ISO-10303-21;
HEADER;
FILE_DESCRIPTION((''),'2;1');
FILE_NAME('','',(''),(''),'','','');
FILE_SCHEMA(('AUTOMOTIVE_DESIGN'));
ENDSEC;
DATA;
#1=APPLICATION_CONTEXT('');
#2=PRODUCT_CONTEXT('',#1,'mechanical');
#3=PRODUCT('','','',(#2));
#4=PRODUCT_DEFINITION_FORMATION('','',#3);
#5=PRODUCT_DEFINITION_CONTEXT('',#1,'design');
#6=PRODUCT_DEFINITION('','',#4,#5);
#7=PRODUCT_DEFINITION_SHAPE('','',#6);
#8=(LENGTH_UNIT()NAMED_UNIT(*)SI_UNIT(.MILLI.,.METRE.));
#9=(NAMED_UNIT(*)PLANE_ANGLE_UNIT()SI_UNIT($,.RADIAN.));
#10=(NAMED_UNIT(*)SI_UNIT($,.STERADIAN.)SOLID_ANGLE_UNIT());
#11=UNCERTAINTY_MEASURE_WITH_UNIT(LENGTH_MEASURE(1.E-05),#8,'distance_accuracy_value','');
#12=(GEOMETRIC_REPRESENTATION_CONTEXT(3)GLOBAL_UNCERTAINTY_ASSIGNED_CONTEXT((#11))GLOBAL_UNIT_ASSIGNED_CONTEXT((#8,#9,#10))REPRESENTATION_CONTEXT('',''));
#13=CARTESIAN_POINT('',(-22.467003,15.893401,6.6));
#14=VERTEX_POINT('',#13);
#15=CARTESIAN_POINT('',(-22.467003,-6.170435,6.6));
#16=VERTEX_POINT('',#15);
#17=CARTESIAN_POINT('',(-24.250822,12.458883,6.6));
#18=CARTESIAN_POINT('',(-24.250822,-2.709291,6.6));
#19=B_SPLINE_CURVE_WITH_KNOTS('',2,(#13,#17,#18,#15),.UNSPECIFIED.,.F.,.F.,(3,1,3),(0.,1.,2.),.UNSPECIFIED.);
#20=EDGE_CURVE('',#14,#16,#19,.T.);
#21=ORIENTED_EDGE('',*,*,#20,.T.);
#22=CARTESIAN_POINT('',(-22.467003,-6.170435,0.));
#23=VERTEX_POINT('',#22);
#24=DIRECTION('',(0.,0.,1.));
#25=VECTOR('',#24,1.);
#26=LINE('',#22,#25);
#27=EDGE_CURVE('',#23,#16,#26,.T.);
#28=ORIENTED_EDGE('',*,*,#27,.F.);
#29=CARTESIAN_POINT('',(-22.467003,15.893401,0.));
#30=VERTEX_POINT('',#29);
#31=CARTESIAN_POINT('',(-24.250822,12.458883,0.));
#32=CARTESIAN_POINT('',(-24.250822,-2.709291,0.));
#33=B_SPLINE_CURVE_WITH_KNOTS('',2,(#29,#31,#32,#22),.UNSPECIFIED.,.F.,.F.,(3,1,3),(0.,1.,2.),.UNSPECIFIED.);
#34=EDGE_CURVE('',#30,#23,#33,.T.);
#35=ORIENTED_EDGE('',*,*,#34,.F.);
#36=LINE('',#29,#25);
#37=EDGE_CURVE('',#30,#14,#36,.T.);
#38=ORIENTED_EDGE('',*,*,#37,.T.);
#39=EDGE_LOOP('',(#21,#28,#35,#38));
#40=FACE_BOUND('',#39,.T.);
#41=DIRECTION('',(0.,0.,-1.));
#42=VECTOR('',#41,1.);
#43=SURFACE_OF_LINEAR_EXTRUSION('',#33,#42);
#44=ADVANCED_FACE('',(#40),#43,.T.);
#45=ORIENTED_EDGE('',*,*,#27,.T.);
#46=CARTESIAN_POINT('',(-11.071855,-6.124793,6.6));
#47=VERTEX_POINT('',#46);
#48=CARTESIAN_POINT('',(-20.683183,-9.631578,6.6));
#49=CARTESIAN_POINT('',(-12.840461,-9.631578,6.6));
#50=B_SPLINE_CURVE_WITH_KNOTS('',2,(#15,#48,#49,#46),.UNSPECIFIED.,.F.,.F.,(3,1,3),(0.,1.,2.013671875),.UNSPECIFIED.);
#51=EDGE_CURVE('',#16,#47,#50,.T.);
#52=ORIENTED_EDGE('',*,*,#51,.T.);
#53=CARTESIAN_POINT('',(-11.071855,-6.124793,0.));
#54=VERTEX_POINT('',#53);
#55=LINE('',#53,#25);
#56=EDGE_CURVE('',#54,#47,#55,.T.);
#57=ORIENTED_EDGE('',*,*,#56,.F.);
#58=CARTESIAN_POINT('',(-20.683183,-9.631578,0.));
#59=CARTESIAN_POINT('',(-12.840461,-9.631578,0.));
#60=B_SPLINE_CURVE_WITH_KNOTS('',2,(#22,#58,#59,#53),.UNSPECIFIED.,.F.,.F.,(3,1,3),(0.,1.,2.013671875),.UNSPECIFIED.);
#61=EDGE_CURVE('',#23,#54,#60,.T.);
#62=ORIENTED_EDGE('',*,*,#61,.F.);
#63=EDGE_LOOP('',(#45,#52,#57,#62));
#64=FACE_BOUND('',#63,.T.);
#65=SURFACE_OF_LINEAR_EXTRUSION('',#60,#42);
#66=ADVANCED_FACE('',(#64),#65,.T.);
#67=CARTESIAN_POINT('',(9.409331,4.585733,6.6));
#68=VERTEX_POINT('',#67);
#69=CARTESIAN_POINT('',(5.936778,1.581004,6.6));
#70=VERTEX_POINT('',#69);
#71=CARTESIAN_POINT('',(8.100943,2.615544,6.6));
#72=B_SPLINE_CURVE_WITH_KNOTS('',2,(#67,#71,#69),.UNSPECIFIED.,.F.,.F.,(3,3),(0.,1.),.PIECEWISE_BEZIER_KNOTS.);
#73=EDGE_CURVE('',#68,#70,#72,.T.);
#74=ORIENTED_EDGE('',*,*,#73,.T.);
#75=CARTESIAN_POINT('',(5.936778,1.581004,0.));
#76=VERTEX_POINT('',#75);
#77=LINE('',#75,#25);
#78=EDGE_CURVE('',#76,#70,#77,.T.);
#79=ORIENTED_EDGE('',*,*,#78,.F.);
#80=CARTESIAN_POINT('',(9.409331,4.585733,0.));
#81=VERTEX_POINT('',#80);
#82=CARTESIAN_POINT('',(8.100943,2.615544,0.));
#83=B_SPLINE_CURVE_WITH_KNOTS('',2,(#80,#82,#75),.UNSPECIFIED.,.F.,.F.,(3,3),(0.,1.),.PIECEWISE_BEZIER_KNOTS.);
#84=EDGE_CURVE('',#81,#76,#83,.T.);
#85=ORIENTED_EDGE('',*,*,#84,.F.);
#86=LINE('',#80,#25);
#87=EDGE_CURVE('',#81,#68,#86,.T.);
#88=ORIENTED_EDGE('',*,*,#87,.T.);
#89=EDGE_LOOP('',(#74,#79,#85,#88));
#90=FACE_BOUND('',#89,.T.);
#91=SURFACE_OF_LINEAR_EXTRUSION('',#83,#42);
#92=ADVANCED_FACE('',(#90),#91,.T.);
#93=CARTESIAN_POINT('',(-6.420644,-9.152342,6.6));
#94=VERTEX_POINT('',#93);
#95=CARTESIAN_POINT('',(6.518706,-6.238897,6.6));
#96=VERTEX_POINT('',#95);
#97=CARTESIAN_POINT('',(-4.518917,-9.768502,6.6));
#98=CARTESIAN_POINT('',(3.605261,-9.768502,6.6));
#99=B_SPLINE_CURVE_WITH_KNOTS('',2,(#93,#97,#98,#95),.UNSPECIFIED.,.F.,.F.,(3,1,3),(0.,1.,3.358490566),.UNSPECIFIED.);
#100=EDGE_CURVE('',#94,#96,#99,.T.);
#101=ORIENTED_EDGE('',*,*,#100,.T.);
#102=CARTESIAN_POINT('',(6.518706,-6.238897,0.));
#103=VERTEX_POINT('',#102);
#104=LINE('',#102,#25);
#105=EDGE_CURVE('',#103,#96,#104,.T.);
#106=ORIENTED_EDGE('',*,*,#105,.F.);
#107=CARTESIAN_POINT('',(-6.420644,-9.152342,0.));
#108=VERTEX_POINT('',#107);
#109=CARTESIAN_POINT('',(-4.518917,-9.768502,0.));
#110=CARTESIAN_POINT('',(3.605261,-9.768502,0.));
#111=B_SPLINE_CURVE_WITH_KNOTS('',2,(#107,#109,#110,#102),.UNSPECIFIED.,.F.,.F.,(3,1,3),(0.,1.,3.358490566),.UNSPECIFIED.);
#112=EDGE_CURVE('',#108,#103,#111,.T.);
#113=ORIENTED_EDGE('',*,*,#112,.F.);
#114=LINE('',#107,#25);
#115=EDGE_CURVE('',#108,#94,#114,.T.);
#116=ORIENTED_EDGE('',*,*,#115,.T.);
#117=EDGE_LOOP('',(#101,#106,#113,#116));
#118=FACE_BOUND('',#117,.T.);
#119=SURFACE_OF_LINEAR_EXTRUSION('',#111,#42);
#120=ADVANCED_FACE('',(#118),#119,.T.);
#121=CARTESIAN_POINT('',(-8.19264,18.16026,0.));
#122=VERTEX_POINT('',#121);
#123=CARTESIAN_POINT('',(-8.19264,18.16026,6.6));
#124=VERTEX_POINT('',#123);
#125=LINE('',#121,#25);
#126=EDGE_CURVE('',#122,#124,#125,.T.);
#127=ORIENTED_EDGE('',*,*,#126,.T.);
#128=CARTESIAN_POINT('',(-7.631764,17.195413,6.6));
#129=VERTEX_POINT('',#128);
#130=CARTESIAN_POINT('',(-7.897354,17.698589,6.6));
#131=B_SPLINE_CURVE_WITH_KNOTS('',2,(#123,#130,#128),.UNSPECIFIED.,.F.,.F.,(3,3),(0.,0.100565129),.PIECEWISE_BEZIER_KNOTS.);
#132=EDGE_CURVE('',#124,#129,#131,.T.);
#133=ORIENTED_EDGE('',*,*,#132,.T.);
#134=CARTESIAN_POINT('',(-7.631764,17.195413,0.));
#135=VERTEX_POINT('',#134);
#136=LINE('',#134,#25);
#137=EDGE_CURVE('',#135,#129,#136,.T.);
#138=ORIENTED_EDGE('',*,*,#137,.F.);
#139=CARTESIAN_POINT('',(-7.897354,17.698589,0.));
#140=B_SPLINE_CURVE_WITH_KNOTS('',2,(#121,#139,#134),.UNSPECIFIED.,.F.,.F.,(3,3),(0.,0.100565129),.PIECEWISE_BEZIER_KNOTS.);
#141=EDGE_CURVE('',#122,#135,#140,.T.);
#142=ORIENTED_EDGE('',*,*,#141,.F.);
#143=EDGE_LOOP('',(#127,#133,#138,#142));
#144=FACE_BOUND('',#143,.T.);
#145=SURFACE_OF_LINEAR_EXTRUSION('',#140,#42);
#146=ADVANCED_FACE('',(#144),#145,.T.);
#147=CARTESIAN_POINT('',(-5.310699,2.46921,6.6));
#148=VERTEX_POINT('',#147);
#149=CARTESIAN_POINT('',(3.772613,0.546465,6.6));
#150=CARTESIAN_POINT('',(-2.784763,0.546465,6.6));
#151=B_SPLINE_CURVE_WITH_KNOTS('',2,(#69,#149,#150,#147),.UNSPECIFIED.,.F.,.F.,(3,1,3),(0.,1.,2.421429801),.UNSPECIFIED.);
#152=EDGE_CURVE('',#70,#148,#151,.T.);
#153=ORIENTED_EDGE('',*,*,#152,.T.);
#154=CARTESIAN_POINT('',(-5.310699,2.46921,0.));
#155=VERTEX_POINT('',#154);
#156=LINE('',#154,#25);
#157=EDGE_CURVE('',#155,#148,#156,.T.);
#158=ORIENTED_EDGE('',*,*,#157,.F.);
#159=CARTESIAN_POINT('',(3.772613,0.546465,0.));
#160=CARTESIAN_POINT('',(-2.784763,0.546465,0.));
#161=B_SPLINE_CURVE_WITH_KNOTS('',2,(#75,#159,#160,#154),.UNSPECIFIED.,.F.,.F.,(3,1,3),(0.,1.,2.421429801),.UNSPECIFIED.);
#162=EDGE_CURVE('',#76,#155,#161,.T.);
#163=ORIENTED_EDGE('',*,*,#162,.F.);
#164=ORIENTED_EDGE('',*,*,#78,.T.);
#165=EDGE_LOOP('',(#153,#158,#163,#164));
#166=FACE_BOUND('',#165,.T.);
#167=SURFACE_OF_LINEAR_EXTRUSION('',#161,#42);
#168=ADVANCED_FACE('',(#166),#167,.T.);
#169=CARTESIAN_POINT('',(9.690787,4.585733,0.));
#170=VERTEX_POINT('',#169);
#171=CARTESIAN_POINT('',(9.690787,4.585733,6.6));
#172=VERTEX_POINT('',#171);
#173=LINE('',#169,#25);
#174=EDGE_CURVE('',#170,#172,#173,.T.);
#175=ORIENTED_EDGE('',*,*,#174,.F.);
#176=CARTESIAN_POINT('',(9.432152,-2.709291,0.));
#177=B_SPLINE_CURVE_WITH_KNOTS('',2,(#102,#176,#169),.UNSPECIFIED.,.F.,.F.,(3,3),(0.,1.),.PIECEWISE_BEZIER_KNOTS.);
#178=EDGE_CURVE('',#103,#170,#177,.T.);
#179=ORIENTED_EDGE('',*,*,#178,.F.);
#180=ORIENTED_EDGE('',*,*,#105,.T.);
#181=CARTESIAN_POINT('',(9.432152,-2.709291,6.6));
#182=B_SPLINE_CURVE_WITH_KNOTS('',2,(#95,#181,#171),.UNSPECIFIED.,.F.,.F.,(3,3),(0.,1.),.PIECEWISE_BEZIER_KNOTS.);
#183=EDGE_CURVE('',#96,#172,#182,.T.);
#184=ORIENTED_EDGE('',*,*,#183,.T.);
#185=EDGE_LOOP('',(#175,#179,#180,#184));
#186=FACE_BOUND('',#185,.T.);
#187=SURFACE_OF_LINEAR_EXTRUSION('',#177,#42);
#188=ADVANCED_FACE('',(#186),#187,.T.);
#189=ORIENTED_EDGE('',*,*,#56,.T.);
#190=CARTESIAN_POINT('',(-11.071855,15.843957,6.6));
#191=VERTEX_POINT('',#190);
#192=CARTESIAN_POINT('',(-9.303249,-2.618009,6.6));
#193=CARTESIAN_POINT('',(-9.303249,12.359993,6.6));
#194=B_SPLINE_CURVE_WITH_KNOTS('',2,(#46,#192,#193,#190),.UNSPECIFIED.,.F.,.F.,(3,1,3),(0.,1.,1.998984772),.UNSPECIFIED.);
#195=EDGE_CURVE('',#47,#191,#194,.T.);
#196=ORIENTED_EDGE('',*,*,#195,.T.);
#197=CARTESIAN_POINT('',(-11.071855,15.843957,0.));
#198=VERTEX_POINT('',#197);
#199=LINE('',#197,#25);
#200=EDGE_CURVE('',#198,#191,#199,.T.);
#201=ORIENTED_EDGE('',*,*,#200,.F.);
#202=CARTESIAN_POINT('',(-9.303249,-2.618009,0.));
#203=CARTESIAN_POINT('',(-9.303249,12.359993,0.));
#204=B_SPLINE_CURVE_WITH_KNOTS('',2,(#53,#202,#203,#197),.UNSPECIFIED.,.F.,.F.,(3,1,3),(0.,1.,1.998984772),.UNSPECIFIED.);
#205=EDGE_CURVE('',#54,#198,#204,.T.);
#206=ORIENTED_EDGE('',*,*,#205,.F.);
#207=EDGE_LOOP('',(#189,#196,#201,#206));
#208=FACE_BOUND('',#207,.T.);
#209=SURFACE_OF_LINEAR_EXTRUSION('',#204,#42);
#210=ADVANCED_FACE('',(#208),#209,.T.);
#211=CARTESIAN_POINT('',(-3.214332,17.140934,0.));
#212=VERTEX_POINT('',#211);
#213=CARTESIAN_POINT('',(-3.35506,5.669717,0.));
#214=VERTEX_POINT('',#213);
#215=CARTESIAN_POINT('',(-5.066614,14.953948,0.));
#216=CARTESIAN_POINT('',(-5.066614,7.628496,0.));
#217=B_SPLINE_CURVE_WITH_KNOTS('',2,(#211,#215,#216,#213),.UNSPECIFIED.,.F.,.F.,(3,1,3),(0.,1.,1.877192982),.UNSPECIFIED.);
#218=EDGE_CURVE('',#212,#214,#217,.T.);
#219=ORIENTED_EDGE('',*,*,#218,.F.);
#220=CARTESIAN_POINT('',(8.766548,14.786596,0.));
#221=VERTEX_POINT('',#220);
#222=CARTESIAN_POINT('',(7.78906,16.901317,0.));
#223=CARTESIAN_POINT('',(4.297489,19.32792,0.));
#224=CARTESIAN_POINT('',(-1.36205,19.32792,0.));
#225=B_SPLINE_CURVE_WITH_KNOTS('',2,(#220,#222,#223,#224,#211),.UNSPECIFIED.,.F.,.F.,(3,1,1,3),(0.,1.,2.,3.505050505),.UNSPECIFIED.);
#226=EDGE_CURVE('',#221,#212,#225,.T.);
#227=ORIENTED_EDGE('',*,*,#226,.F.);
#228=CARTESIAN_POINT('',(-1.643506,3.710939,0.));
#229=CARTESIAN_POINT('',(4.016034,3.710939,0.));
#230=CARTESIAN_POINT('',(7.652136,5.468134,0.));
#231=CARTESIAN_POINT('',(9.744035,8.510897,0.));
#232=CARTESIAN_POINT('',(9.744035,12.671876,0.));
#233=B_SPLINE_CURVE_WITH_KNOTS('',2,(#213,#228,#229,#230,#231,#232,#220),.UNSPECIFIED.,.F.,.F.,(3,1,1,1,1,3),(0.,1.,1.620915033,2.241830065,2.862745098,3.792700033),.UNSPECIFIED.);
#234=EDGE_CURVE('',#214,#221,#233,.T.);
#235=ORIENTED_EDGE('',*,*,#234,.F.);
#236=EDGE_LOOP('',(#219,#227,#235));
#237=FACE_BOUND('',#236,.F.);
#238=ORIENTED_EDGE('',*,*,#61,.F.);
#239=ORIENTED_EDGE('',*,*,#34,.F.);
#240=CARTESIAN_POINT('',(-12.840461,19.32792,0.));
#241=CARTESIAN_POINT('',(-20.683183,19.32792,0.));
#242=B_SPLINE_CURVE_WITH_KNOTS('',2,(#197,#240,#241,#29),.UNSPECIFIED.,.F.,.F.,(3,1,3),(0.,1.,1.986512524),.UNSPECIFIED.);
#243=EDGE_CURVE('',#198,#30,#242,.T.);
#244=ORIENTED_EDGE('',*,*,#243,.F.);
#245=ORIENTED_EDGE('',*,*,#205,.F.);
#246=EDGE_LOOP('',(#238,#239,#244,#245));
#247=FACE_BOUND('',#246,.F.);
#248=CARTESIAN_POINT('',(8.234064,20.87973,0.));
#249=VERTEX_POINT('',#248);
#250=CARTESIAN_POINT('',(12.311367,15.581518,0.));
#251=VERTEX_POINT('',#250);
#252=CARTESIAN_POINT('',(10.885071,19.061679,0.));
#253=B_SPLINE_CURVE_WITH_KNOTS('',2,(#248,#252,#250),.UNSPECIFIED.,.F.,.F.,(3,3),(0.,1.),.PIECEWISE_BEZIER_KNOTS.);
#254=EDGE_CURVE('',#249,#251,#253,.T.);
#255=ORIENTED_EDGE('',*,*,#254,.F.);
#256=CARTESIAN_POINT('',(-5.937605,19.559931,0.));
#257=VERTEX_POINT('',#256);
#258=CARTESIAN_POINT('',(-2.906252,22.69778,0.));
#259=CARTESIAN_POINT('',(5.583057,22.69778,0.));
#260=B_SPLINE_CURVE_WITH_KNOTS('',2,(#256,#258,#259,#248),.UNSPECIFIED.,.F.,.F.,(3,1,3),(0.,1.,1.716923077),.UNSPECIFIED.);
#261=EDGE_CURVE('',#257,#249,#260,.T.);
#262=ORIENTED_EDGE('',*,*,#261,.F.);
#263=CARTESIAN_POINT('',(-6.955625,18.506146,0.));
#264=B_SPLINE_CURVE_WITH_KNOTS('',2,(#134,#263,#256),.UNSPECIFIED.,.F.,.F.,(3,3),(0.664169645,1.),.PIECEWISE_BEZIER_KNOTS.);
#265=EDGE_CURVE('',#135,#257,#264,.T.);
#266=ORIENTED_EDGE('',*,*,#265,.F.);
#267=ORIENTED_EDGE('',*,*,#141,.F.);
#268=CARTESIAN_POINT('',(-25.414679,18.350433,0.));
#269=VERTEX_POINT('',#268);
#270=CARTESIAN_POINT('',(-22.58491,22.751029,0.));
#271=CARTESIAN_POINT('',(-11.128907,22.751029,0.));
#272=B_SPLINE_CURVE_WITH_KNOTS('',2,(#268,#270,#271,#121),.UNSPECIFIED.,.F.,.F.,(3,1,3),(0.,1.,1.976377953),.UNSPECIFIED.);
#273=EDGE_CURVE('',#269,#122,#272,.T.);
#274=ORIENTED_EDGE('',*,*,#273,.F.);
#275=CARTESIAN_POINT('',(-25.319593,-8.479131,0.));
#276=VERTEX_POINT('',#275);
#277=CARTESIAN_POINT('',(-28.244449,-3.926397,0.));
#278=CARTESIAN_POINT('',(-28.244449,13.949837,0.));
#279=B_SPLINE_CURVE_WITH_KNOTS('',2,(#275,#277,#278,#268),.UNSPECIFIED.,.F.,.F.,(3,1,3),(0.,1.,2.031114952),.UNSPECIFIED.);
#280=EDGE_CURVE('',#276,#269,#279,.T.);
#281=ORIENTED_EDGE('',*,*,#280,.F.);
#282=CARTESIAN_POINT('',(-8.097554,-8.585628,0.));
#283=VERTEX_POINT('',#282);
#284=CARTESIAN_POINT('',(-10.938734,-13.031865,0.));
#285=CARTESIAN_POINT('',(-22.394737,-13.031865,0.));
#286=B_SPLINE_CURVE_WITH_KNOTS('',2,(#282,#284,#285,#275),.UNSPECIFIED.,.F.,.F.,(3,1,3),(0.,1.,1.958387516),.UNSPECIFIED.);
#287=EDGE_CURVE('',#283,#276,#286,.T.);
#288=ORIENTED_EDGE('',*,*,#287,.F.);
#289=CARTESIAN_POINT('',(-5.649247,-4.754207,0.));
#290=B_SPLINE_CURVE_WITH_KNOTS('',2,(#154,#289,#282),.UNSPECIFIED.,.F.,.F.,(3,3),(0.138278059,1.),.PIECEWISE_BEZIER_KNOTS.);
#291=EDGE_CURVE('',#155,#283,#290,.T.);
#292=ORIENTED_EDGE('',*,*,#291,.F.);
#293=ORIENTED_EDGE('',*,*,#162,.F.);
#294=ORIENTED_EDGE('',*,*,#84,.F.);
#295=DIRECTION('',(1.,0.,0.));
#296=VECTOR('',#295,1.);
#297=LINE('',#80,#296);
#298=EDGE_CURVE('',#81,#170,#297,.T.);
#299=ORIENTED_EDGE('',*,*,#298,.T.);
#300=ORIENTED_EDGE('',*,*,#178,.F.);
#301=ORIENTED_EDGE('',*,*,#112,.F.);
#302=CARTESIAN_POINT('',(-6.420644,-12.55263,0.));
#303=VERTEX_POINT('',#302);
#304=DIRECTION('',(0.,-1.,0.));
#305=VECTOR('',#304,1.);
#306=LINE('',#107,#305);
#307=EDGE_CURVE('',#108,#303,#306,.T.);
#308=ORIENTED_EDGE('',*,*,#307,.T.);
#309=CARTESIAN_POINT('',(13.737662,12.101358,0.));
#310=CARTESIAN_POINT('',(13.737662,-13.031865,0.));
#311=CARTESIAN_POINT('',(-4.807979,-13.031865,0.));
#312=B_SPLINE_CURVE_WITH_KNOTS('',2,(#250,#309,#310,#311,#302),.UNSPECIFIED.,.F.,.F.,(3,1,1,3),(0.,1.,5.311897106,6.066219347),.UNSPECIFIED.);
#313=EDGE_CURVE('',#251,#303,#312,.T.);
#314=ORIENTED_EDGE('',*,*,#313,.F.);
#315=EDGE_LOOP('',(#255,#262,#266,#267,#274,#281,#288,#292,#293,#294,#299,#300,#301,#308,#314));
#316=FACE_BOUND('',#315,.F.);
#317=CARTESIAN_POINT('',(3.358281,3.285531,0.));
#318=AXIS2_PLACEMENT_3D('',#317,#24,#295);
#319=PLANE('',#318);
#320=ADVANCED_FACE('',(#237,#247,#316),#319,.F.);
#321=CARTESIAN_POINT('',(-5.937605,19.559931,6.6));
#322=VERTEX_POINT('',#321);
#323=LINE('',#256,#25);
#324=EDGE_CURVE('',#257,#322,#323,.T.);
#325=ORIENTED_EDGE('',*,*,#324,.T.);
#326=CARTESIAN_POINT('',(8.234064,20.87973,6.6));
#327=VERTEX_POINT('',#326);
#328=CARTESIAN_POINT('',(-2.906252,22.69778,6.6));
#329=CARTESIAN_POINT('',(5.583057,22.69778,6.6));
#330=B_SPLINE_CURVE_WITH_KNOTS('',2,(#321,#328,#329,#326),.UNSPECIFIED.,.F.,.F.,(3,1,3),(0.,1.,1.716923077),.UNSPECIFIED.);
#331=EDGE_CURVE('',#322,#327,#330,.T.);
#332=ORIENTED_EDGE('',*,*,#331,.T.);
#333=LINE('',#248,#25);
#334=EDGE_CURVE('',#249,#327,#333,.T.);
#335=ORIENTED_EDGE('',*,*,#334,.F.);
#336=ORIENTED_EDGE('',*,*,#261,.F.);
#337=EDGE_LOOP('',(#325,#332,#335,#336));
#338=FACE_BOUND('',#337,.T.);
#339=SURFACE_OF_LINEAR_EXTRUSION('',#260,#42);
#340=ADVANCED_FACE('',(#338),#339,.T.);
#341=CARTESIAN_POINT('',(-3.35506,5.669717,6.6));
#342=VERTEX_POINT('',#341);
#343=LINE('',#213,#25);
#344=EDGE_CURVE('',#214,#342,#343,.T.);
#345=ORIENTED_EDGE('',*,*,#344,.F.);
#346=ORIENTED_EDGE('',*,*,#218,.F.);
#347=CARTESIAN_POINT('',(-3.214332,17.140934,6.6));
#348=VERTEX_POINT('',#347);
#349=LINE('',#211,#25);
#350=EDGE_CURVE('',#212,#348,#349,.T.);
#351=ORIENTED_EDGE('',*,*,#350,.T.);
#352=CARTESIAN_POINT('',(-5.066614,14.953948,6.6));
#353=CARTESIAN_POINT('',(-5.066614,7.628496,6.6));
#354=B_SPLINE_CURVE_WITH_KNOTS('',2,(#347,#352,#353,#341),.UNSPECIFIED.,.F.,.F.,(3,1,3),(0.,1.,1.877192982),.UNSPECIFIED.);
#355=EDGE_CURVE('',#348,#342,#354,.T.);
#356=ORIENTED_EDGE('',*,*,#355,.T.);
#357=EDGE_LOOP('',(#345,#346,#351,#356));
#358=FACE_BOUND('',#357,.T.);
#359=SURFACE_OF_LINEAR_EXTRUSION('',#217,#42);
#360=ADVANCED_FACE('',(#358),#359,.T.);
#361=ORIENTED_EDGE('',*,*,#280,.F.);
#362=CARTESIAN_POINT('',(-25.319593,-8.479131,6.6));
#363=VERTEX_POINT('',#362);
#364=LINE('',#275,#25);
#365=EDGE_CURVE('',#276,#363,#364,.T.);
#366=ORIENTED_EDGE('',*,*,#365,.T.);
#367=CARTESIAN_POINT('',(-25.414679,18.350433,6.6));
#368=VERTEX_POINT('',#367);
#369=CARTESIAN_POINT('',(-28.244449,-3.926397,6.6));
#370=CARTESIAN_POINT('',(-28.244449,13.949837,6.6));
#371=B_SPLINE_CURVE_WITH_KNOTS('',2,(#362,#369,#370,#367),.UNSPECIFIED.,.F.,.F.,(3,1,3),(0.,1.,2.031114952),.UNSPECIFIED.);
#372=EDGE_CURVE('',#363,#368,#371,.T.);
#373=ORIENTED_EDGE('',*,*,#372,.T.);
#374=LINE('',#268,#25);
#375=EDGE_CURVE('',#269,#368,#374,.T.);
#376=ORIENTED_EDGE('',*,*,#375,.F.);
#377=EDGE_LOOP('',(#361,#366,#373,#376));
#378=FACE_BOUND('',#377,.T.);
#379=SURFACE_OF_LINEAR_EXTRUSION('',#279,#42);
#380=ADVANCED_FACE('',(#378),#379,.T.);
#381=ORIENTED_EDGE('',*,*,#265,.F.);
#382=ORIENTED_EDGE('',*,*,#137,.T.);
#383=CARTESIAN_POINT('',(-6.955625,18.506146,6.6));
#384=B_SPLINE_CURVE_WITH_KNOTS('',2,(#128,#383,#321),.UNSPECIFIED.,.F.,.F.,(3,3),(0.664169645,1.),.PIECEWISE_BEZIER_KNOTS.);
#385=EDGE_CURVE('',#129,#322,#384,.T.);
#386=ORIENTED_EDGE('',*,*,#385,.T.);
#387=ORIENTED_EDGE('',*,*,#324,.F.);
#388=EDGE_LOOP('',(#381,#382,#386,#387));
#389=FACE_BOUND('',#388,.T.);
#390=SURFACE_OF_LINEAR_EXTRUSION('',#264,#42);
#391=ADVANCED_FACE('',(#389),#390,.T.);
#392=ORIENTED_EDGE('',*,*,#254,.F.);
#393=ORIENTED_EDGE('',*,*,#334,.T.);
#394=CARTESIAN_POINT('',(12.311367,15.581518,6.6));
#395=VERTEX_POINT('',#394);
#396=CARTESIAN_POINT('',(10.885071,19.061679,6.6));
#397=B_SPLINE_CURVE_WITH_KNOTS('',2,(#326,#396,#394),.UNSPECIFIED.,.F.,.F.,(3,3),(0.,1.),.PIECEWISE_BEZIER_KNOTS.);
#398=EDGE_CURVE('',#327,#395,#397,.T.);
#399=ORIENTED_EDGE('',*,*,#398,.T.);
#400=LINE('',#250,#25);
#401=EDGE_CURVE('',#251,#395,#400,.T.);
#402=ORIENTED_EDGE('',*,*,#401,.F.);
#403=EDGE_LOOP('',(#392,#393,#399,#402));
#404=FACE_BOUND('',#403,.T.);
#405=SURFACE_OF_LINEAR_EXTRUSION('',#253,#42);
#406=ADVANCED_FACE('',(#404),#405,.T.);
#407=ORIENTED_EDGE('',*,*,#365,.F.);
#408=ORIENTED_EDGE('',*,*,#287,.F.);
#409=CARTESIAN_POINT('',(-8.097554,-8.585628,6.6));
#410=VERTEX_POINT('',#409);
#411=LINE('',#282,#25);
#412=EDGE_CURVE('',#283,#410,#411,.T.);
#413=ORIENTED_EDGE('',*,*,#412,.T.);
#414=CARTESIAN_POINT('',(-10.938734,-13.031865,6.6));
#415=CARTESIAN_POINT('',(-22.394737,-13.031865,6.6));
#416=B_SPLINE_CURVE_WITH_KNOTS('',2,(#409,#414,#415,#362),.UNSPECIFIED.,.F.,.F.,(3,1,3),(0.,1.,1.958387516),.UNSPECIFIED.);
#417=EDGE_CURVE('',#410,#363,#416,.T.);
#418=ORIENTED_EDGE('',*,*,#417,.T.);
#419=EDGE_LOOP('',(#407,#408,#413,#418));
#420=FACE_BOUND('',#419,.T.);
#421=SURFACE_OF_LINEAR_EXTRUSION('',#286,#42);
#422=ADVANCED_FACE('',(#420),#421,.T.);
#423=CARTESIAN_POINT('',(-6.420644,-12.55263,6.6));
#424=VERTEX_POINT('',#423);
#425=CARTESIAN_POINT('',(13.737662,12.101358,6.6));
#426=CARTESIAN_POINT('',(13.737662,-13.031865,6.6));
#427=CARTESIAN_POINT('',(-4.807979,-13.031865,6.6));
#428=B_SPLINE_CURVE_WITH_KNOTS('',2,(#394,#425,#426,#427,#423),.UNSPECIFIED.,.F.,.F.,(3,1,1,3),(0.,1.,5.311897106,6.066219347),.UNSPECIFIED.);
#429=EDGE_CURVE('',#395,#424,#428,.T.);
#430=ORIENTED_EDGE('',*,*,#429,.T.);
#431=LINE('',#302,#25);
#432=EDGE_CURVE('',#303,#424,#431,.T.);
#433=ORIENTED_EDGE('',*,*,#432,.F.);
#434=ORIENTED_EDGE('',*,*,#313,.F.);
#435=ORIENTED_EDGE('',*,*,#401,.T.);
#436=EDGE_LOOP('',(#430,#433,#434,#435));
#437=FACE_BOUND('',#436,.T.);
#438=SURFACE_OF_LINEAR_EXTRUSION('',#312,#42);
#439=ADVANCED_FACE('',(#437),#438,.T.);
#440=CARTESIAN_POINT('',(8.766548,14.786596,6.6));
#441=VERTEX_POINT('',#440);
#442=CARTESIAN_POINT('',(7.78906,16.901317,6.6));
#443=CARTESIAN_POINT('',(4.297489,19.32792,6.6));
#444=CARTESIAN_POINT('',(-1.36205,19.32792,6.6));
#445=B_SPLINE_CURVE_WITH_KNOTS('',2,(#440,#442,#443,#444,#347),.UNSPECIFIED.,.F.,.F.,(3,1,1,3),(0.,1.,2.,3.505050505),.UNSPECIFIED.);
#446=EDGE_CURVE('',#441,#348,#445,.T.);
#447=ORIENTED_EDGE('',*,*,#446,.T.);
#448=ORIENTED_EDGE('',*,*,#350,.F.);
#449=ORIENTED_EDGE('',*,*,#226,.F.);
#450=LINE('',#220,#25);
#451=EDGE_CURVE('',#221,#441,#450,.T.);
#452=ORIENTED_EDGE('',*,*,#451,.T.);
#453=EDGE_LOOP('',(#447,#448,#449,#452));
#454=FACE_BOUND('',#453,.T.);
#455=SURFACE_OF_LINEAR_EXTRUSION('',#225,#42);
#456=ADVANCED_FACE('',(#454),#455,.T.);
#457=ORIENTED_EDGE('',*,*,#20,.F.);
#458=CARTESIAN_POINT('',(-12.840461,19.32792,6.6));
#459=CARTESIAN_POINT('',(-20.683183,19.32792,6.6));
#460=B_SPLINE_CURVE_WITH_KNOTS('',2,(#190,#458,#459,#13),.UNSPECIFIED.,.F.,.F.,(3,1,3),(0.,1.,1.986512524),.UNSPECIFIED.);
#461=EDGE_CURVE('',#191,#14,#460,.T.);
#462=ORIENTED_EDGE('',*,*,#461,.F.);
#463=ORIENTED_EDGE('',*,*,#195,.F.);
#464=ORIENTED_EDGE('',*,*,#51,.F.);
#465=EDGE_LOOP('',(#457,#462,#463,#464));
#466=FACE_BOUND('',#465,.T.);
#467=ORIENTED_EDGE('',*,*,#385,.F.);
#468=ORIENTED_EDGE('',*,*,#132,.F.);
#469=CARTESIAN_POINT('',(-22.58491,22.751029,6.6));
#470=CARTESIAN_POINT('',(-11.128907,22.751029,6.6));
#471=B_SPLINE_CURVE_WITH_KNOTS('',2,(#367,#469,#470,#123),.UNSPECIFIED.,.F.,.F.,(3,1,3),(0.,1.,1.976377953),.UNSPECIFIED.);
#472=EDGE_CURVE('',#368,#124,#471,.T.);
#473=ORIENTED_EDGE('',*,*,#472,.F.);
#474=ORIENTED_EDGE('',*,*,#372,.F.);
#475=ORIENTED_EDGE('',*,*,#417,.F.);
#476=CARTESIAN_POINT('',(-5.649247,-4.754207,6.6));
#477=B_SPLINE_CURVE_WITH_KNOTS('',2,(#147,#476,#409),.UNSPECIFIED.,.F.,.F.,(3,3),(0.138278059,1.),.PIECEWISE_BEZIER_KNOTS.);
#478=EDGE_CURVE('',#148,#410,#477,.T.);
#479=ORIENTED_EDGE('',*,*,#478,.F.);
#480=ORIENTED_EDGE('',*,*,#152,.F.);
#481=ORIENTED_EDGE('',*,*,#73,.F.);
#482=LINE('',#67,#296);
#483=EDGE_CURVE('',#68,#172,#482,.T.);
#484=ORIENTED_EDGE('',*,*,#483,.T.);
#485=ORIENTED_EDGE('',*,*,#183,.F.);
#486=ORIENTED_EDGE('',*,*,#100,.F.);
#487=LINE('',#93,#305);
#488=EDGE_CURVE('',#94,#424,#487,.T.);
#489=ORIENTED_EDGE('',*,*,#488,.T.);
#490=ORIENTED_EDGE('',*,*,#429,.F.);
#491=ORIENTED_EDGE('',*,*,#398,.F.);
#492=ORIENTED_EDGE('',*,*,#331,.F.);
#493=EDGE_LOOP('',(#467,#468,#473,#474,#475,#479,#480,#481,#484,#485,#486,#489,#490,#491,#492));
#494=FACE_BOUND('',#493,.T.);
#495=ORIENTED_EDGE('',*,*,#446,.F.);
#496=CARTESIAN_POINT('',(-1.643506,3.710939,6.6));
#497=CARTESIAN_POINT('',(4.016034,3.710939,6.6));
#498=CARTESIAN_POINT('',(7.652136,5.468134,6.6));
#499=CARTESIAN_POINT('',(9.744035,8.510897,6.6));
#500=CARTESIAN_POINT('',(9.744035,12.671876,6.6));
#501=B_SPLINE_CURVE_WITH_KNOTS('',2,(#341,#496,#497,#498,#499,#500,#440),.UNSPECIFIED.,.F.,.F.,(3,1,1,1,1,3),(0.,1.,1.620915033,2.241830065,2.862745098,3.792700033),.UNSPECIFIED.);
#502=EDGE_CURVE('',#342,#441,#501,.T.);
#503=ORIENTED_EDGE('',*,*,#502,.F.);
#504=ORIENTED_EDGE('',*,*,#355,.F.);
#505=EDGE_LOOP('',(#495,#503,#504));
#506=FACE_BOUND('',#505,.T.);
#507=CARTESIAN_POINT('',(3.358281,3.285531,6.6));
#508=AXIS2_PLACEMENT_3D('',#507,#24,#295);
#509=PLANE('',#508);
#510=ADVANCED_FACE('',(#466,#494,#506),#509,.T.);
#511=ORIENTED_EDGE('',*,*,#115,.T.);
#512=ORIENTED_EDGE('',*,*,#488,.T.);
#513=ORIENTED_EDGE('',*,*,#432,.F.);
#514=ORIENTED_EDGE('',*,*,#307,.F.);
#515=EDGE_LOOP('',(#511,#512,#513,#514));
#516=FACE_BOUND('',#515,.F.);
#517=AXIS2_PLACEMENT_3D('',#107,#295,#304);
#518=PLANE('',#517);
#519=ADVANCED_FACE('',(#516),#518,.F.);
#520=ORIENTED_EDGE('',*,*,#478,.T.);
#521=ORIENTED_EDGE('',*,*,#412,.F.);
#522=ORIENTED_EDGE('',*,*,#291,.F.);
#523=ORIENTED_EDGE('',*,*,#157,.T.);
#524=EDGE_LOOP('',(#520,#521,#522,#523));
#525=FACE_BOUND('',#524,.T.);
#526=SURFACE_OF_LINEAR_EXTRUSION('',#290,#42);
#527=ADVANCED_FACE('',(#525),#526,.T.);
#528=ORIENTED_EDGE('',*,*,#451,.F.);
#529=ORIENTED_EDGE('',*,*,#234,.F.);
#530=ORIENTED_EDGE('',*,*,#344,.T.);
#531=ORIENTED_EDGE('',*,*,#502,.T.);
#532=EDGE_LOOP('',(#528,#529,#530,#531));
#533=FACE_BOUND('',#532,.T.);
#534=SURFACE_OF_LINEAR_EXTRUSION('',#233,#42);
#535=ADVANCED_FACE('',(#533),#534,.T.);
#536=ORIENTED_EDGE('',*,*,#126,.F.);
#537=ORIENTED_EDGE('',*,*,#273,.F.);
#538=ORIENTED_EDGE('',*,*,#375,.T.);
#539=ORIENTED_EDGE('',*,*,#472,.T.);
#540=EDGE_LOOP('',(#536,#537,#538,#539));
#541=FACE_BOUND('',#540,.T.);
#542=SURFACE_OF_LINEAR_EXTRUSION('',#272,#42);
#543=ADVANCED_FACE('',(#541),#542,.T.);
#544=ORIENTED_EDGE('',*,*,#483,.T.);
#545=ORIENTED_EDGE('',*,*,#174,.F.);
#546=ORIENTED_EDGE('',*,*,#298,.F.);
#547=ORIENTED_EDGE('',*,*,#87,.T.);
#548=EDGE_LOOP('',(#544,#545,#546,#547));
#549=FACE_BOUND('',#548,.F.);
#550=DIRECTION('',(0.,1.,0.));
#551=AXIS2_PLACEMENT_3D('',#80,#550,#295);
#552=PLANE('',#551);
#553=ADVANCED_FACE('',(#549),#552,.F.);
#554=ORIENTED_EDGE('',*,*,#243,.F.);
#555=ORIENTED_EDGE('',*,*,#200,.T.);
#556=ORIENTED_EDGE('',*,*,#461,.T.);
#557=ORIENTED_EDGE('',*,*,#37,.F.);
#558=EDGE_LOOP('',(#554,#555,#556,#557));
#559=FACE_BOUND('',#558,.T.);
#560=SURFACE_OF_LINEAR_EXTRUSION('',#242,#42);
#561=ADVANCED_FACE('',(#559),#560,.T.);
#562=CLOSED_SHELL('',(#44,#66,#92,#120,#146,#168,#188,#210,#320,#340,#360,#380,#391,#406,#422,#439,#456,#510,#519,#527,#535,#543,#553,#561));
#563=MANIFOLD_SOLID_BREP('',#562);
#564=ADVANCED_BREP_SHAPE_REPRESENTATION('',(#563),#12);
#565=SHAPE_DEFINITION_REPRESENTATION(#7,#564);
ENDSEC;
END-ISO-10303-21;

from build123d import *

# Parameters (mm, degrees)
F1_DEPTH = 6.6


with BuildPart() as f1:
    # F0 (on Top) → F1 (new body)
    with BuildSketch(Plane.XY):
        with BuildLine():
            add(Edge.make_bspline(
                [(-7.6317636007, 17.1954130546), (-5.2563737417, 12.6951079756), (-5.2563737417, 4.8747955678)],
                knots=[0.1005651291, 0.1005651291, 0.1005651291, 1, 1, 1], degree=2))
            add(Edge.make_bspline(
                [(-5.2563737417, 4.8747955678), (-5.2563737417, 3.6283314587), (-5.310699439, 2.4692102714)],
                knots=[0, 0, 0, 0.1382780595, 0.1382780595, 0.1382780595], degree=2))
            add(Edge.make_bspline(
                [(1.0645534445, 0.5464650409), (-2.7847625628, 0.5464650409), (-5.310699439, 2.4692102714)],
                knots=[0, 0, 0, 0.8350313684, 0.8350313684, 0.8350313684], degree=2))
            add(Edge.make_bspline(
                [(5.9367778777, 1.581004499), (3.7726126142, 0.5464650409), (1.0645534445, 0.5464650409)],
                knots=[0, 0, 0, 1, 1, 1], degree=2))
            add(Edge.make_bspline(
                [(9.4093312792, 4.5857330721), (8.1009431411, 2.6155439571), (5.9367778777, 1.581004499)],
                knots=[0, 0, 0, 1, 1, 1], degree=2))
            Line((9.4093312792, 4.5857330721), (9.6907868671, 4.5857330721))
            add(Edge.make_bspline(
                [(6.5187063228, -6.2388966989), (9.4321520026, -2.7092914889), (9.6907868671, 4.5857330721)],
                knots=[0, 0, 0, 1, 1, 1], degree=2))
            add(Edge.make_bspline(
                [(-2.0999201919, -9.7685019088), (3.6052606431, -9.7685019088), (6.5187063228, -6.2388966989)],
                knots=[0, 0, 0, 1, 1, 1], degree=2))
            add(Edge.make_bspline(
                [(-6.420643811, -9.1523423786), (-4.518916866, -9.7685019088), (-2.0999201919, -9.7685019088)],
                knots=[0, 0, 0, 1, 1, 1], degree=2))
            Line((-6.420643811, -9.1523423786), (-6.420643811, -12.5526301563))
            add(Edge.make_bspline(
                [(-2.0466718375, -13.0318653464), (-4.8079793616, -13.0318653464), (-6.420643811, -12.5526301563)],
                knots=[0, 0, 0, 1, 1, 1], degree=2))
            add(Edge.make_bspline(
                [(13.7376618061, 7.3698613196), (13.7376618061, -13.0318653464), (-2.0466718375, -13.0318653464)],
                knots=[0, 0, 0, 1, 1, 1], degree=2))
            add(Edge.make_bspline(
                [(12.3113665973, 15.5815182681), (13.7376618061, 12.1013579588), (13.7376618061, 7.3698613196)],
                knots=[0, 0, 0, 1, 1, 1], degree=2))
            add(Edge.make_bspline(
                [(8.2340640272, 20.8797295369), (10.8850713886, 19.0616785775), (12.3113665973, 15.5815182681)],
                knots=[0, 0, 0, 1, 1, 1], degree=2))
            add(Edge.make_bspline(
                [(2.0382376404, 22.6977804964), (5.5830566659, 22.6977804964), (8.2340640272, 20.8797295369)],
                knots=[0, 0, 0, 1, 1, 1], degree=2))
            add(Edge.make_bspline(
                [(-5.937605167, 19.5599310371), (-2.9062524166, 22.6977804964), (2.0382376404, 22.6977804964)],
                knots=[0, 0, 0, 1, 1, 1], degree=2))
            add(Edge.make_bspline(
                [(-7.6317636007, 17.1954130546), (-6.9556254387, 18.5061459378), (-5.937605167, 19.5599310371)],
                knots=[0.6641696445, 0.6641696445, 0.6641696445, 1, 1, 1], degree=2))
        make_face()
        with BuildLine():
            add(Edge.make_bspline(
                [(2.0382376404, 19.3279203498), (-1.3620501373, 19.3279203498), (-3.2143321817, 17.140934363)],
                knots=[0, 0, 0, 1, 1, 1], degree=2))
            add(Edge.make_bspline(
                [(6.0432745866, 18.1146185589), (4.2974892511, 19.3279203498), (2.0382376404, 19.3279203498)],
                knots=[0, 0, 0, 1, 1, 1], degree=2))
            add(Edge.make_bspline(
                [(8.7665475718, 14.7865964051), (7.7890599221, 16.901316768), (6.0432745866, 18.1146185589)],
                knots=[0, 0, 0, 1, 1, 1], degree=2))
            add(Edge.make_bspline(
                [(9.7440352216, 10.1768102904), (9.7440352216, 12.6718760423), (8.7665475718, 14.7865964051)],
                knots=[0, 0, 0, 1, 1, 1], degree=2))
            add(Edge.make_bspline(
                [(8.6980854018, 6.9895159306), (9.7440352216, 8.5108974866), (9.7440352216, 10.1768102904)],
                knots=[0, 0, 0, 1, 1, 1], degree=2))
            add(Edge.make_bspline(
                [(5.8340846226, 4.589536526), (7.652135582, 5.4681343746), (8.6980854018, 6.9895159306)],
                knots=[0, 0, 0, 1, 1, 1], degree=2))
            add(Edge.make_bspline(
                [(1.8480649459, 3.7109386774), (4.0160336632, 3.7109386774), (5.8340846226, 4.589536526)],
                knots=[0, 0, 0, 1, 1, 1], degree=2))
            add(Edge.make_bspline(
                [(-3.3550599756, 5.6697174308), (-1.6435057251, 3.7109386774), (1.8480649459, 3.7109386774)],
                knots=[0, 0, 0, 1, 1, 1], degree=2))
            add(Edge.make_bspline(
                [(-5.0666142262, 11.0516046851), (-5.0666142262, 7.6284961841), (-3.3550599756, 5.6697174308)],
                knots=[0, 0, 0, 1, 1, 1], degree=2))
            add(Edge.make_bspline(
                [(-3.2143321817, 17.140934363), (-5.0666142262, 14.9539483763), (-5.0666142262, 11.0516046851)],
                knots=[0, 0, 0, 1, 1, 1], degree=2))
        make_face(mode=Mode.SUBTRACT)
        with BuildLine():
            add(Edge.make_bspline(
                [(-5.2563737417, 4.8747955678), (-5.2563737417, 3.6283314587), (-5.310699439, 2.4692102714)],
                knots=[0, 0, 0, 0.1382780595, 0.1382780595, 0.1382780595], degree=2))
            add(Edge.make_bspline(
                [(-7.6317636007, 17.1954130546), (-5.2563737417, 12.6951079756), (-5.2563737417, 4.8747955678)],
                knots=[0.1005651291, 0.1005651291, 0.1005651291, 1, 1, 1], degree=2))
            add(Edge.make_bspline(
                [(-8.9689579173, 11.0059632385), (-8.9689579173, 14.6031846306), (-7.6317636007, 17.1954130546)],
                knots=[0, 0, 0, 0.6641696445, 0.6641696445, 0.6641696445], degree=2))
            add(Edge.make_bspline(
                [(-6.2570952937, 3.3039691112), (-8.9689579173, 6.0614731814), (-8.9689579173, 11.0059632385)],
                knots=[0, 0, 0, 1, 1, 1], degree=2))
            add(Edge.make_bspline(
                [(-5.310699439, 2.4692102714), (-5.8097230276, 2.849067438), (-6.2570952937, 3.3039691112)],
                knots=[0.8350313684, 0.8350313684, 0.8350313684, 1, 1, 1], degree=2))
        make_face()
        with BuildLine():
            add(Edge.make_bspline(
                [(-5.310699439, 2.4692102714), (-5.6492466064, -4.7542072585), (-8.0975537975, -8.585627749)],
                knots=[0.1382780595, 0.1382780595, 0.1382780595, 1, 1, 1], degree=2))
            add(Edge.make_bspline(
                [(-5.310699439, 2.4692102714), (-5.8097230276, 2.849067438), (-6.2570952937, 3.3039691112)],
                knots=[0.8350313684, 0.8350313684, 0.8350313684, 1, 1, 1], degree=2))
            add(Edge.make_bspline(
                [(-6.2570952937, 3.3039691112), (-8.9689579173, 6.0614731814), (-8.9689579173, 11.0059632385)],
                knots=[0, 0, 0, 1, 1, 1], degree=2))
            add(Edge.make_bspline(
                [(-8.9689579173, 11.0059632385), (-8.9689579173, 14.6031846306), (-7.6317636007, 17.1954130546)],
                knots=[0, 0, 0, 0.6641696445, 0.6641696445, 0.6641696445], degree=2))
            add(Edge.make_bspline(
                [(-8.1926401447, 18.1602600056), (-7.8973541349, 17.698588744), (-7.6317636007, 17.1954130546)],
                knots=[0, 0, 0, 0.1005651291, 0.1005651291, 0.1005651291], degree=2))
            add(Edge.make_bspline(
                [(-16.7884459362, 22.7510288508), (-11.1289065478, 22.7510288508), (-8.1926401447, 18.1602600056)],
                knots=[0, 0, 0, 1, 1, 1], degree=2))
            add(Edge.make_bspline(
                [(-25.4146793587, 18.3504327001), (-22.5849096646, 22.7510288508), (-16.7884459362, 22.7510288508)],
                knots=[0, 0, 0, 1, 1, 1], degree=2))
            add(Edge.make_bspline(
                [(-28.2444490529, 4.8747955678), (-28.2444490529, 13.9498365493), (-25.4146793587, 18.3504327001)],
                knots=[0, 0, 0, 1, 1, 1], degree=2))
            add(Edge.make_bspline(
                [(-25.3195930115, -8.4791310401), (-28.2444490529, -3.9263967337), (-28.2444490529, 4.8747955678)],
                knots=[0, 0, 0, 1, 1, 1], degree=2))
            add(Edge.make_bspline(
                [(-16.7884459362, -13.0318653464), (-22.3947369701, -13.0318653464), (-25.3195930115, -8.4791310401)],
                knots=[0, 0, 0, 1, 1, 1], degree=2))
            add(Edge.make_bspline(
                [(-8.0975537975, -8.585627749), (-10.9387338533, -13.0318653464), (-16.7884459362, -13.0318653464)],
                knots=[0, 0, 0, 1, 1, 1], degree=2))
        make_face()
        with BuildLine():
            add(Edge.make_bspline(
                [(-24.2508224684, 4.8747955678), (-24.2508224684, -2.7092914889), (-22.467002594, -6.1704345288)],
                knots=[0, 0, 0, 1, 1, 1], degree=2))
            add(Edge.make_bspline(
                [(-22.467002594, 15.8934014871), (-24.2508224684, 12.4588826244), (-24.2508224684, 4.8747955678)],
                knots=[0, 0, 0, 1, 1, 1], degree=2))
            add(Edge.make_bspline(
                [(-16.7884459362, 19.3279203498), (-20.6831827195, 19.3279203498), (-22.467002594, 15.8934014871)],
                knots=[0, 0, 0, 1, 1, 1], degree=2))
            add(Edge.make_bspline(
                [(-11.0718547395, 15.8439565865), (-12.8404607983, 19.3279203498), (-16.7884459362, 19.3279203498)],
                knots=[0, 0, 0, 1, 1, 1], degree=2))
            add(Edge.make_bspline(
                [(-9.3032486806, 4.8747955678), (-9.3032486806, 12.3599928233), (-11.0718547395, 15.8439565865)],
                knots=[0, 0, 0, 1, 1, 1], degree=2))
            add(Edge.make_bspline(
                [(-11.0718547395, -6.1247930822), (-9.3032486806, -2.6180085956), (-9.3032486806, 4.8747955678)],
                knots=[0, 0, 0, 1, 1, 1], degree=2))
            add(Edge.make_bspline(
                [(-16.7884459362, -9.6315775687), (-12.8404607983, -9.6315775687), (-11.0718547395, -6.1247930822)],
                knots=[0, 0, 0, 1, 1, 1], degree=2))
            add(Edge.make_bspline(
                [(-22.467002594, -6.1704345288), (-20.6831827195, -9.6315775687), (-16.7884459362, -9.6315775687)],
                knots=[0, 0, 0, 1, 1, 1], degree=2))
        make_face(mode=Mode.SUBTRACT)
    extrude(amount=F1_DEPTH)


solid = f1.part
